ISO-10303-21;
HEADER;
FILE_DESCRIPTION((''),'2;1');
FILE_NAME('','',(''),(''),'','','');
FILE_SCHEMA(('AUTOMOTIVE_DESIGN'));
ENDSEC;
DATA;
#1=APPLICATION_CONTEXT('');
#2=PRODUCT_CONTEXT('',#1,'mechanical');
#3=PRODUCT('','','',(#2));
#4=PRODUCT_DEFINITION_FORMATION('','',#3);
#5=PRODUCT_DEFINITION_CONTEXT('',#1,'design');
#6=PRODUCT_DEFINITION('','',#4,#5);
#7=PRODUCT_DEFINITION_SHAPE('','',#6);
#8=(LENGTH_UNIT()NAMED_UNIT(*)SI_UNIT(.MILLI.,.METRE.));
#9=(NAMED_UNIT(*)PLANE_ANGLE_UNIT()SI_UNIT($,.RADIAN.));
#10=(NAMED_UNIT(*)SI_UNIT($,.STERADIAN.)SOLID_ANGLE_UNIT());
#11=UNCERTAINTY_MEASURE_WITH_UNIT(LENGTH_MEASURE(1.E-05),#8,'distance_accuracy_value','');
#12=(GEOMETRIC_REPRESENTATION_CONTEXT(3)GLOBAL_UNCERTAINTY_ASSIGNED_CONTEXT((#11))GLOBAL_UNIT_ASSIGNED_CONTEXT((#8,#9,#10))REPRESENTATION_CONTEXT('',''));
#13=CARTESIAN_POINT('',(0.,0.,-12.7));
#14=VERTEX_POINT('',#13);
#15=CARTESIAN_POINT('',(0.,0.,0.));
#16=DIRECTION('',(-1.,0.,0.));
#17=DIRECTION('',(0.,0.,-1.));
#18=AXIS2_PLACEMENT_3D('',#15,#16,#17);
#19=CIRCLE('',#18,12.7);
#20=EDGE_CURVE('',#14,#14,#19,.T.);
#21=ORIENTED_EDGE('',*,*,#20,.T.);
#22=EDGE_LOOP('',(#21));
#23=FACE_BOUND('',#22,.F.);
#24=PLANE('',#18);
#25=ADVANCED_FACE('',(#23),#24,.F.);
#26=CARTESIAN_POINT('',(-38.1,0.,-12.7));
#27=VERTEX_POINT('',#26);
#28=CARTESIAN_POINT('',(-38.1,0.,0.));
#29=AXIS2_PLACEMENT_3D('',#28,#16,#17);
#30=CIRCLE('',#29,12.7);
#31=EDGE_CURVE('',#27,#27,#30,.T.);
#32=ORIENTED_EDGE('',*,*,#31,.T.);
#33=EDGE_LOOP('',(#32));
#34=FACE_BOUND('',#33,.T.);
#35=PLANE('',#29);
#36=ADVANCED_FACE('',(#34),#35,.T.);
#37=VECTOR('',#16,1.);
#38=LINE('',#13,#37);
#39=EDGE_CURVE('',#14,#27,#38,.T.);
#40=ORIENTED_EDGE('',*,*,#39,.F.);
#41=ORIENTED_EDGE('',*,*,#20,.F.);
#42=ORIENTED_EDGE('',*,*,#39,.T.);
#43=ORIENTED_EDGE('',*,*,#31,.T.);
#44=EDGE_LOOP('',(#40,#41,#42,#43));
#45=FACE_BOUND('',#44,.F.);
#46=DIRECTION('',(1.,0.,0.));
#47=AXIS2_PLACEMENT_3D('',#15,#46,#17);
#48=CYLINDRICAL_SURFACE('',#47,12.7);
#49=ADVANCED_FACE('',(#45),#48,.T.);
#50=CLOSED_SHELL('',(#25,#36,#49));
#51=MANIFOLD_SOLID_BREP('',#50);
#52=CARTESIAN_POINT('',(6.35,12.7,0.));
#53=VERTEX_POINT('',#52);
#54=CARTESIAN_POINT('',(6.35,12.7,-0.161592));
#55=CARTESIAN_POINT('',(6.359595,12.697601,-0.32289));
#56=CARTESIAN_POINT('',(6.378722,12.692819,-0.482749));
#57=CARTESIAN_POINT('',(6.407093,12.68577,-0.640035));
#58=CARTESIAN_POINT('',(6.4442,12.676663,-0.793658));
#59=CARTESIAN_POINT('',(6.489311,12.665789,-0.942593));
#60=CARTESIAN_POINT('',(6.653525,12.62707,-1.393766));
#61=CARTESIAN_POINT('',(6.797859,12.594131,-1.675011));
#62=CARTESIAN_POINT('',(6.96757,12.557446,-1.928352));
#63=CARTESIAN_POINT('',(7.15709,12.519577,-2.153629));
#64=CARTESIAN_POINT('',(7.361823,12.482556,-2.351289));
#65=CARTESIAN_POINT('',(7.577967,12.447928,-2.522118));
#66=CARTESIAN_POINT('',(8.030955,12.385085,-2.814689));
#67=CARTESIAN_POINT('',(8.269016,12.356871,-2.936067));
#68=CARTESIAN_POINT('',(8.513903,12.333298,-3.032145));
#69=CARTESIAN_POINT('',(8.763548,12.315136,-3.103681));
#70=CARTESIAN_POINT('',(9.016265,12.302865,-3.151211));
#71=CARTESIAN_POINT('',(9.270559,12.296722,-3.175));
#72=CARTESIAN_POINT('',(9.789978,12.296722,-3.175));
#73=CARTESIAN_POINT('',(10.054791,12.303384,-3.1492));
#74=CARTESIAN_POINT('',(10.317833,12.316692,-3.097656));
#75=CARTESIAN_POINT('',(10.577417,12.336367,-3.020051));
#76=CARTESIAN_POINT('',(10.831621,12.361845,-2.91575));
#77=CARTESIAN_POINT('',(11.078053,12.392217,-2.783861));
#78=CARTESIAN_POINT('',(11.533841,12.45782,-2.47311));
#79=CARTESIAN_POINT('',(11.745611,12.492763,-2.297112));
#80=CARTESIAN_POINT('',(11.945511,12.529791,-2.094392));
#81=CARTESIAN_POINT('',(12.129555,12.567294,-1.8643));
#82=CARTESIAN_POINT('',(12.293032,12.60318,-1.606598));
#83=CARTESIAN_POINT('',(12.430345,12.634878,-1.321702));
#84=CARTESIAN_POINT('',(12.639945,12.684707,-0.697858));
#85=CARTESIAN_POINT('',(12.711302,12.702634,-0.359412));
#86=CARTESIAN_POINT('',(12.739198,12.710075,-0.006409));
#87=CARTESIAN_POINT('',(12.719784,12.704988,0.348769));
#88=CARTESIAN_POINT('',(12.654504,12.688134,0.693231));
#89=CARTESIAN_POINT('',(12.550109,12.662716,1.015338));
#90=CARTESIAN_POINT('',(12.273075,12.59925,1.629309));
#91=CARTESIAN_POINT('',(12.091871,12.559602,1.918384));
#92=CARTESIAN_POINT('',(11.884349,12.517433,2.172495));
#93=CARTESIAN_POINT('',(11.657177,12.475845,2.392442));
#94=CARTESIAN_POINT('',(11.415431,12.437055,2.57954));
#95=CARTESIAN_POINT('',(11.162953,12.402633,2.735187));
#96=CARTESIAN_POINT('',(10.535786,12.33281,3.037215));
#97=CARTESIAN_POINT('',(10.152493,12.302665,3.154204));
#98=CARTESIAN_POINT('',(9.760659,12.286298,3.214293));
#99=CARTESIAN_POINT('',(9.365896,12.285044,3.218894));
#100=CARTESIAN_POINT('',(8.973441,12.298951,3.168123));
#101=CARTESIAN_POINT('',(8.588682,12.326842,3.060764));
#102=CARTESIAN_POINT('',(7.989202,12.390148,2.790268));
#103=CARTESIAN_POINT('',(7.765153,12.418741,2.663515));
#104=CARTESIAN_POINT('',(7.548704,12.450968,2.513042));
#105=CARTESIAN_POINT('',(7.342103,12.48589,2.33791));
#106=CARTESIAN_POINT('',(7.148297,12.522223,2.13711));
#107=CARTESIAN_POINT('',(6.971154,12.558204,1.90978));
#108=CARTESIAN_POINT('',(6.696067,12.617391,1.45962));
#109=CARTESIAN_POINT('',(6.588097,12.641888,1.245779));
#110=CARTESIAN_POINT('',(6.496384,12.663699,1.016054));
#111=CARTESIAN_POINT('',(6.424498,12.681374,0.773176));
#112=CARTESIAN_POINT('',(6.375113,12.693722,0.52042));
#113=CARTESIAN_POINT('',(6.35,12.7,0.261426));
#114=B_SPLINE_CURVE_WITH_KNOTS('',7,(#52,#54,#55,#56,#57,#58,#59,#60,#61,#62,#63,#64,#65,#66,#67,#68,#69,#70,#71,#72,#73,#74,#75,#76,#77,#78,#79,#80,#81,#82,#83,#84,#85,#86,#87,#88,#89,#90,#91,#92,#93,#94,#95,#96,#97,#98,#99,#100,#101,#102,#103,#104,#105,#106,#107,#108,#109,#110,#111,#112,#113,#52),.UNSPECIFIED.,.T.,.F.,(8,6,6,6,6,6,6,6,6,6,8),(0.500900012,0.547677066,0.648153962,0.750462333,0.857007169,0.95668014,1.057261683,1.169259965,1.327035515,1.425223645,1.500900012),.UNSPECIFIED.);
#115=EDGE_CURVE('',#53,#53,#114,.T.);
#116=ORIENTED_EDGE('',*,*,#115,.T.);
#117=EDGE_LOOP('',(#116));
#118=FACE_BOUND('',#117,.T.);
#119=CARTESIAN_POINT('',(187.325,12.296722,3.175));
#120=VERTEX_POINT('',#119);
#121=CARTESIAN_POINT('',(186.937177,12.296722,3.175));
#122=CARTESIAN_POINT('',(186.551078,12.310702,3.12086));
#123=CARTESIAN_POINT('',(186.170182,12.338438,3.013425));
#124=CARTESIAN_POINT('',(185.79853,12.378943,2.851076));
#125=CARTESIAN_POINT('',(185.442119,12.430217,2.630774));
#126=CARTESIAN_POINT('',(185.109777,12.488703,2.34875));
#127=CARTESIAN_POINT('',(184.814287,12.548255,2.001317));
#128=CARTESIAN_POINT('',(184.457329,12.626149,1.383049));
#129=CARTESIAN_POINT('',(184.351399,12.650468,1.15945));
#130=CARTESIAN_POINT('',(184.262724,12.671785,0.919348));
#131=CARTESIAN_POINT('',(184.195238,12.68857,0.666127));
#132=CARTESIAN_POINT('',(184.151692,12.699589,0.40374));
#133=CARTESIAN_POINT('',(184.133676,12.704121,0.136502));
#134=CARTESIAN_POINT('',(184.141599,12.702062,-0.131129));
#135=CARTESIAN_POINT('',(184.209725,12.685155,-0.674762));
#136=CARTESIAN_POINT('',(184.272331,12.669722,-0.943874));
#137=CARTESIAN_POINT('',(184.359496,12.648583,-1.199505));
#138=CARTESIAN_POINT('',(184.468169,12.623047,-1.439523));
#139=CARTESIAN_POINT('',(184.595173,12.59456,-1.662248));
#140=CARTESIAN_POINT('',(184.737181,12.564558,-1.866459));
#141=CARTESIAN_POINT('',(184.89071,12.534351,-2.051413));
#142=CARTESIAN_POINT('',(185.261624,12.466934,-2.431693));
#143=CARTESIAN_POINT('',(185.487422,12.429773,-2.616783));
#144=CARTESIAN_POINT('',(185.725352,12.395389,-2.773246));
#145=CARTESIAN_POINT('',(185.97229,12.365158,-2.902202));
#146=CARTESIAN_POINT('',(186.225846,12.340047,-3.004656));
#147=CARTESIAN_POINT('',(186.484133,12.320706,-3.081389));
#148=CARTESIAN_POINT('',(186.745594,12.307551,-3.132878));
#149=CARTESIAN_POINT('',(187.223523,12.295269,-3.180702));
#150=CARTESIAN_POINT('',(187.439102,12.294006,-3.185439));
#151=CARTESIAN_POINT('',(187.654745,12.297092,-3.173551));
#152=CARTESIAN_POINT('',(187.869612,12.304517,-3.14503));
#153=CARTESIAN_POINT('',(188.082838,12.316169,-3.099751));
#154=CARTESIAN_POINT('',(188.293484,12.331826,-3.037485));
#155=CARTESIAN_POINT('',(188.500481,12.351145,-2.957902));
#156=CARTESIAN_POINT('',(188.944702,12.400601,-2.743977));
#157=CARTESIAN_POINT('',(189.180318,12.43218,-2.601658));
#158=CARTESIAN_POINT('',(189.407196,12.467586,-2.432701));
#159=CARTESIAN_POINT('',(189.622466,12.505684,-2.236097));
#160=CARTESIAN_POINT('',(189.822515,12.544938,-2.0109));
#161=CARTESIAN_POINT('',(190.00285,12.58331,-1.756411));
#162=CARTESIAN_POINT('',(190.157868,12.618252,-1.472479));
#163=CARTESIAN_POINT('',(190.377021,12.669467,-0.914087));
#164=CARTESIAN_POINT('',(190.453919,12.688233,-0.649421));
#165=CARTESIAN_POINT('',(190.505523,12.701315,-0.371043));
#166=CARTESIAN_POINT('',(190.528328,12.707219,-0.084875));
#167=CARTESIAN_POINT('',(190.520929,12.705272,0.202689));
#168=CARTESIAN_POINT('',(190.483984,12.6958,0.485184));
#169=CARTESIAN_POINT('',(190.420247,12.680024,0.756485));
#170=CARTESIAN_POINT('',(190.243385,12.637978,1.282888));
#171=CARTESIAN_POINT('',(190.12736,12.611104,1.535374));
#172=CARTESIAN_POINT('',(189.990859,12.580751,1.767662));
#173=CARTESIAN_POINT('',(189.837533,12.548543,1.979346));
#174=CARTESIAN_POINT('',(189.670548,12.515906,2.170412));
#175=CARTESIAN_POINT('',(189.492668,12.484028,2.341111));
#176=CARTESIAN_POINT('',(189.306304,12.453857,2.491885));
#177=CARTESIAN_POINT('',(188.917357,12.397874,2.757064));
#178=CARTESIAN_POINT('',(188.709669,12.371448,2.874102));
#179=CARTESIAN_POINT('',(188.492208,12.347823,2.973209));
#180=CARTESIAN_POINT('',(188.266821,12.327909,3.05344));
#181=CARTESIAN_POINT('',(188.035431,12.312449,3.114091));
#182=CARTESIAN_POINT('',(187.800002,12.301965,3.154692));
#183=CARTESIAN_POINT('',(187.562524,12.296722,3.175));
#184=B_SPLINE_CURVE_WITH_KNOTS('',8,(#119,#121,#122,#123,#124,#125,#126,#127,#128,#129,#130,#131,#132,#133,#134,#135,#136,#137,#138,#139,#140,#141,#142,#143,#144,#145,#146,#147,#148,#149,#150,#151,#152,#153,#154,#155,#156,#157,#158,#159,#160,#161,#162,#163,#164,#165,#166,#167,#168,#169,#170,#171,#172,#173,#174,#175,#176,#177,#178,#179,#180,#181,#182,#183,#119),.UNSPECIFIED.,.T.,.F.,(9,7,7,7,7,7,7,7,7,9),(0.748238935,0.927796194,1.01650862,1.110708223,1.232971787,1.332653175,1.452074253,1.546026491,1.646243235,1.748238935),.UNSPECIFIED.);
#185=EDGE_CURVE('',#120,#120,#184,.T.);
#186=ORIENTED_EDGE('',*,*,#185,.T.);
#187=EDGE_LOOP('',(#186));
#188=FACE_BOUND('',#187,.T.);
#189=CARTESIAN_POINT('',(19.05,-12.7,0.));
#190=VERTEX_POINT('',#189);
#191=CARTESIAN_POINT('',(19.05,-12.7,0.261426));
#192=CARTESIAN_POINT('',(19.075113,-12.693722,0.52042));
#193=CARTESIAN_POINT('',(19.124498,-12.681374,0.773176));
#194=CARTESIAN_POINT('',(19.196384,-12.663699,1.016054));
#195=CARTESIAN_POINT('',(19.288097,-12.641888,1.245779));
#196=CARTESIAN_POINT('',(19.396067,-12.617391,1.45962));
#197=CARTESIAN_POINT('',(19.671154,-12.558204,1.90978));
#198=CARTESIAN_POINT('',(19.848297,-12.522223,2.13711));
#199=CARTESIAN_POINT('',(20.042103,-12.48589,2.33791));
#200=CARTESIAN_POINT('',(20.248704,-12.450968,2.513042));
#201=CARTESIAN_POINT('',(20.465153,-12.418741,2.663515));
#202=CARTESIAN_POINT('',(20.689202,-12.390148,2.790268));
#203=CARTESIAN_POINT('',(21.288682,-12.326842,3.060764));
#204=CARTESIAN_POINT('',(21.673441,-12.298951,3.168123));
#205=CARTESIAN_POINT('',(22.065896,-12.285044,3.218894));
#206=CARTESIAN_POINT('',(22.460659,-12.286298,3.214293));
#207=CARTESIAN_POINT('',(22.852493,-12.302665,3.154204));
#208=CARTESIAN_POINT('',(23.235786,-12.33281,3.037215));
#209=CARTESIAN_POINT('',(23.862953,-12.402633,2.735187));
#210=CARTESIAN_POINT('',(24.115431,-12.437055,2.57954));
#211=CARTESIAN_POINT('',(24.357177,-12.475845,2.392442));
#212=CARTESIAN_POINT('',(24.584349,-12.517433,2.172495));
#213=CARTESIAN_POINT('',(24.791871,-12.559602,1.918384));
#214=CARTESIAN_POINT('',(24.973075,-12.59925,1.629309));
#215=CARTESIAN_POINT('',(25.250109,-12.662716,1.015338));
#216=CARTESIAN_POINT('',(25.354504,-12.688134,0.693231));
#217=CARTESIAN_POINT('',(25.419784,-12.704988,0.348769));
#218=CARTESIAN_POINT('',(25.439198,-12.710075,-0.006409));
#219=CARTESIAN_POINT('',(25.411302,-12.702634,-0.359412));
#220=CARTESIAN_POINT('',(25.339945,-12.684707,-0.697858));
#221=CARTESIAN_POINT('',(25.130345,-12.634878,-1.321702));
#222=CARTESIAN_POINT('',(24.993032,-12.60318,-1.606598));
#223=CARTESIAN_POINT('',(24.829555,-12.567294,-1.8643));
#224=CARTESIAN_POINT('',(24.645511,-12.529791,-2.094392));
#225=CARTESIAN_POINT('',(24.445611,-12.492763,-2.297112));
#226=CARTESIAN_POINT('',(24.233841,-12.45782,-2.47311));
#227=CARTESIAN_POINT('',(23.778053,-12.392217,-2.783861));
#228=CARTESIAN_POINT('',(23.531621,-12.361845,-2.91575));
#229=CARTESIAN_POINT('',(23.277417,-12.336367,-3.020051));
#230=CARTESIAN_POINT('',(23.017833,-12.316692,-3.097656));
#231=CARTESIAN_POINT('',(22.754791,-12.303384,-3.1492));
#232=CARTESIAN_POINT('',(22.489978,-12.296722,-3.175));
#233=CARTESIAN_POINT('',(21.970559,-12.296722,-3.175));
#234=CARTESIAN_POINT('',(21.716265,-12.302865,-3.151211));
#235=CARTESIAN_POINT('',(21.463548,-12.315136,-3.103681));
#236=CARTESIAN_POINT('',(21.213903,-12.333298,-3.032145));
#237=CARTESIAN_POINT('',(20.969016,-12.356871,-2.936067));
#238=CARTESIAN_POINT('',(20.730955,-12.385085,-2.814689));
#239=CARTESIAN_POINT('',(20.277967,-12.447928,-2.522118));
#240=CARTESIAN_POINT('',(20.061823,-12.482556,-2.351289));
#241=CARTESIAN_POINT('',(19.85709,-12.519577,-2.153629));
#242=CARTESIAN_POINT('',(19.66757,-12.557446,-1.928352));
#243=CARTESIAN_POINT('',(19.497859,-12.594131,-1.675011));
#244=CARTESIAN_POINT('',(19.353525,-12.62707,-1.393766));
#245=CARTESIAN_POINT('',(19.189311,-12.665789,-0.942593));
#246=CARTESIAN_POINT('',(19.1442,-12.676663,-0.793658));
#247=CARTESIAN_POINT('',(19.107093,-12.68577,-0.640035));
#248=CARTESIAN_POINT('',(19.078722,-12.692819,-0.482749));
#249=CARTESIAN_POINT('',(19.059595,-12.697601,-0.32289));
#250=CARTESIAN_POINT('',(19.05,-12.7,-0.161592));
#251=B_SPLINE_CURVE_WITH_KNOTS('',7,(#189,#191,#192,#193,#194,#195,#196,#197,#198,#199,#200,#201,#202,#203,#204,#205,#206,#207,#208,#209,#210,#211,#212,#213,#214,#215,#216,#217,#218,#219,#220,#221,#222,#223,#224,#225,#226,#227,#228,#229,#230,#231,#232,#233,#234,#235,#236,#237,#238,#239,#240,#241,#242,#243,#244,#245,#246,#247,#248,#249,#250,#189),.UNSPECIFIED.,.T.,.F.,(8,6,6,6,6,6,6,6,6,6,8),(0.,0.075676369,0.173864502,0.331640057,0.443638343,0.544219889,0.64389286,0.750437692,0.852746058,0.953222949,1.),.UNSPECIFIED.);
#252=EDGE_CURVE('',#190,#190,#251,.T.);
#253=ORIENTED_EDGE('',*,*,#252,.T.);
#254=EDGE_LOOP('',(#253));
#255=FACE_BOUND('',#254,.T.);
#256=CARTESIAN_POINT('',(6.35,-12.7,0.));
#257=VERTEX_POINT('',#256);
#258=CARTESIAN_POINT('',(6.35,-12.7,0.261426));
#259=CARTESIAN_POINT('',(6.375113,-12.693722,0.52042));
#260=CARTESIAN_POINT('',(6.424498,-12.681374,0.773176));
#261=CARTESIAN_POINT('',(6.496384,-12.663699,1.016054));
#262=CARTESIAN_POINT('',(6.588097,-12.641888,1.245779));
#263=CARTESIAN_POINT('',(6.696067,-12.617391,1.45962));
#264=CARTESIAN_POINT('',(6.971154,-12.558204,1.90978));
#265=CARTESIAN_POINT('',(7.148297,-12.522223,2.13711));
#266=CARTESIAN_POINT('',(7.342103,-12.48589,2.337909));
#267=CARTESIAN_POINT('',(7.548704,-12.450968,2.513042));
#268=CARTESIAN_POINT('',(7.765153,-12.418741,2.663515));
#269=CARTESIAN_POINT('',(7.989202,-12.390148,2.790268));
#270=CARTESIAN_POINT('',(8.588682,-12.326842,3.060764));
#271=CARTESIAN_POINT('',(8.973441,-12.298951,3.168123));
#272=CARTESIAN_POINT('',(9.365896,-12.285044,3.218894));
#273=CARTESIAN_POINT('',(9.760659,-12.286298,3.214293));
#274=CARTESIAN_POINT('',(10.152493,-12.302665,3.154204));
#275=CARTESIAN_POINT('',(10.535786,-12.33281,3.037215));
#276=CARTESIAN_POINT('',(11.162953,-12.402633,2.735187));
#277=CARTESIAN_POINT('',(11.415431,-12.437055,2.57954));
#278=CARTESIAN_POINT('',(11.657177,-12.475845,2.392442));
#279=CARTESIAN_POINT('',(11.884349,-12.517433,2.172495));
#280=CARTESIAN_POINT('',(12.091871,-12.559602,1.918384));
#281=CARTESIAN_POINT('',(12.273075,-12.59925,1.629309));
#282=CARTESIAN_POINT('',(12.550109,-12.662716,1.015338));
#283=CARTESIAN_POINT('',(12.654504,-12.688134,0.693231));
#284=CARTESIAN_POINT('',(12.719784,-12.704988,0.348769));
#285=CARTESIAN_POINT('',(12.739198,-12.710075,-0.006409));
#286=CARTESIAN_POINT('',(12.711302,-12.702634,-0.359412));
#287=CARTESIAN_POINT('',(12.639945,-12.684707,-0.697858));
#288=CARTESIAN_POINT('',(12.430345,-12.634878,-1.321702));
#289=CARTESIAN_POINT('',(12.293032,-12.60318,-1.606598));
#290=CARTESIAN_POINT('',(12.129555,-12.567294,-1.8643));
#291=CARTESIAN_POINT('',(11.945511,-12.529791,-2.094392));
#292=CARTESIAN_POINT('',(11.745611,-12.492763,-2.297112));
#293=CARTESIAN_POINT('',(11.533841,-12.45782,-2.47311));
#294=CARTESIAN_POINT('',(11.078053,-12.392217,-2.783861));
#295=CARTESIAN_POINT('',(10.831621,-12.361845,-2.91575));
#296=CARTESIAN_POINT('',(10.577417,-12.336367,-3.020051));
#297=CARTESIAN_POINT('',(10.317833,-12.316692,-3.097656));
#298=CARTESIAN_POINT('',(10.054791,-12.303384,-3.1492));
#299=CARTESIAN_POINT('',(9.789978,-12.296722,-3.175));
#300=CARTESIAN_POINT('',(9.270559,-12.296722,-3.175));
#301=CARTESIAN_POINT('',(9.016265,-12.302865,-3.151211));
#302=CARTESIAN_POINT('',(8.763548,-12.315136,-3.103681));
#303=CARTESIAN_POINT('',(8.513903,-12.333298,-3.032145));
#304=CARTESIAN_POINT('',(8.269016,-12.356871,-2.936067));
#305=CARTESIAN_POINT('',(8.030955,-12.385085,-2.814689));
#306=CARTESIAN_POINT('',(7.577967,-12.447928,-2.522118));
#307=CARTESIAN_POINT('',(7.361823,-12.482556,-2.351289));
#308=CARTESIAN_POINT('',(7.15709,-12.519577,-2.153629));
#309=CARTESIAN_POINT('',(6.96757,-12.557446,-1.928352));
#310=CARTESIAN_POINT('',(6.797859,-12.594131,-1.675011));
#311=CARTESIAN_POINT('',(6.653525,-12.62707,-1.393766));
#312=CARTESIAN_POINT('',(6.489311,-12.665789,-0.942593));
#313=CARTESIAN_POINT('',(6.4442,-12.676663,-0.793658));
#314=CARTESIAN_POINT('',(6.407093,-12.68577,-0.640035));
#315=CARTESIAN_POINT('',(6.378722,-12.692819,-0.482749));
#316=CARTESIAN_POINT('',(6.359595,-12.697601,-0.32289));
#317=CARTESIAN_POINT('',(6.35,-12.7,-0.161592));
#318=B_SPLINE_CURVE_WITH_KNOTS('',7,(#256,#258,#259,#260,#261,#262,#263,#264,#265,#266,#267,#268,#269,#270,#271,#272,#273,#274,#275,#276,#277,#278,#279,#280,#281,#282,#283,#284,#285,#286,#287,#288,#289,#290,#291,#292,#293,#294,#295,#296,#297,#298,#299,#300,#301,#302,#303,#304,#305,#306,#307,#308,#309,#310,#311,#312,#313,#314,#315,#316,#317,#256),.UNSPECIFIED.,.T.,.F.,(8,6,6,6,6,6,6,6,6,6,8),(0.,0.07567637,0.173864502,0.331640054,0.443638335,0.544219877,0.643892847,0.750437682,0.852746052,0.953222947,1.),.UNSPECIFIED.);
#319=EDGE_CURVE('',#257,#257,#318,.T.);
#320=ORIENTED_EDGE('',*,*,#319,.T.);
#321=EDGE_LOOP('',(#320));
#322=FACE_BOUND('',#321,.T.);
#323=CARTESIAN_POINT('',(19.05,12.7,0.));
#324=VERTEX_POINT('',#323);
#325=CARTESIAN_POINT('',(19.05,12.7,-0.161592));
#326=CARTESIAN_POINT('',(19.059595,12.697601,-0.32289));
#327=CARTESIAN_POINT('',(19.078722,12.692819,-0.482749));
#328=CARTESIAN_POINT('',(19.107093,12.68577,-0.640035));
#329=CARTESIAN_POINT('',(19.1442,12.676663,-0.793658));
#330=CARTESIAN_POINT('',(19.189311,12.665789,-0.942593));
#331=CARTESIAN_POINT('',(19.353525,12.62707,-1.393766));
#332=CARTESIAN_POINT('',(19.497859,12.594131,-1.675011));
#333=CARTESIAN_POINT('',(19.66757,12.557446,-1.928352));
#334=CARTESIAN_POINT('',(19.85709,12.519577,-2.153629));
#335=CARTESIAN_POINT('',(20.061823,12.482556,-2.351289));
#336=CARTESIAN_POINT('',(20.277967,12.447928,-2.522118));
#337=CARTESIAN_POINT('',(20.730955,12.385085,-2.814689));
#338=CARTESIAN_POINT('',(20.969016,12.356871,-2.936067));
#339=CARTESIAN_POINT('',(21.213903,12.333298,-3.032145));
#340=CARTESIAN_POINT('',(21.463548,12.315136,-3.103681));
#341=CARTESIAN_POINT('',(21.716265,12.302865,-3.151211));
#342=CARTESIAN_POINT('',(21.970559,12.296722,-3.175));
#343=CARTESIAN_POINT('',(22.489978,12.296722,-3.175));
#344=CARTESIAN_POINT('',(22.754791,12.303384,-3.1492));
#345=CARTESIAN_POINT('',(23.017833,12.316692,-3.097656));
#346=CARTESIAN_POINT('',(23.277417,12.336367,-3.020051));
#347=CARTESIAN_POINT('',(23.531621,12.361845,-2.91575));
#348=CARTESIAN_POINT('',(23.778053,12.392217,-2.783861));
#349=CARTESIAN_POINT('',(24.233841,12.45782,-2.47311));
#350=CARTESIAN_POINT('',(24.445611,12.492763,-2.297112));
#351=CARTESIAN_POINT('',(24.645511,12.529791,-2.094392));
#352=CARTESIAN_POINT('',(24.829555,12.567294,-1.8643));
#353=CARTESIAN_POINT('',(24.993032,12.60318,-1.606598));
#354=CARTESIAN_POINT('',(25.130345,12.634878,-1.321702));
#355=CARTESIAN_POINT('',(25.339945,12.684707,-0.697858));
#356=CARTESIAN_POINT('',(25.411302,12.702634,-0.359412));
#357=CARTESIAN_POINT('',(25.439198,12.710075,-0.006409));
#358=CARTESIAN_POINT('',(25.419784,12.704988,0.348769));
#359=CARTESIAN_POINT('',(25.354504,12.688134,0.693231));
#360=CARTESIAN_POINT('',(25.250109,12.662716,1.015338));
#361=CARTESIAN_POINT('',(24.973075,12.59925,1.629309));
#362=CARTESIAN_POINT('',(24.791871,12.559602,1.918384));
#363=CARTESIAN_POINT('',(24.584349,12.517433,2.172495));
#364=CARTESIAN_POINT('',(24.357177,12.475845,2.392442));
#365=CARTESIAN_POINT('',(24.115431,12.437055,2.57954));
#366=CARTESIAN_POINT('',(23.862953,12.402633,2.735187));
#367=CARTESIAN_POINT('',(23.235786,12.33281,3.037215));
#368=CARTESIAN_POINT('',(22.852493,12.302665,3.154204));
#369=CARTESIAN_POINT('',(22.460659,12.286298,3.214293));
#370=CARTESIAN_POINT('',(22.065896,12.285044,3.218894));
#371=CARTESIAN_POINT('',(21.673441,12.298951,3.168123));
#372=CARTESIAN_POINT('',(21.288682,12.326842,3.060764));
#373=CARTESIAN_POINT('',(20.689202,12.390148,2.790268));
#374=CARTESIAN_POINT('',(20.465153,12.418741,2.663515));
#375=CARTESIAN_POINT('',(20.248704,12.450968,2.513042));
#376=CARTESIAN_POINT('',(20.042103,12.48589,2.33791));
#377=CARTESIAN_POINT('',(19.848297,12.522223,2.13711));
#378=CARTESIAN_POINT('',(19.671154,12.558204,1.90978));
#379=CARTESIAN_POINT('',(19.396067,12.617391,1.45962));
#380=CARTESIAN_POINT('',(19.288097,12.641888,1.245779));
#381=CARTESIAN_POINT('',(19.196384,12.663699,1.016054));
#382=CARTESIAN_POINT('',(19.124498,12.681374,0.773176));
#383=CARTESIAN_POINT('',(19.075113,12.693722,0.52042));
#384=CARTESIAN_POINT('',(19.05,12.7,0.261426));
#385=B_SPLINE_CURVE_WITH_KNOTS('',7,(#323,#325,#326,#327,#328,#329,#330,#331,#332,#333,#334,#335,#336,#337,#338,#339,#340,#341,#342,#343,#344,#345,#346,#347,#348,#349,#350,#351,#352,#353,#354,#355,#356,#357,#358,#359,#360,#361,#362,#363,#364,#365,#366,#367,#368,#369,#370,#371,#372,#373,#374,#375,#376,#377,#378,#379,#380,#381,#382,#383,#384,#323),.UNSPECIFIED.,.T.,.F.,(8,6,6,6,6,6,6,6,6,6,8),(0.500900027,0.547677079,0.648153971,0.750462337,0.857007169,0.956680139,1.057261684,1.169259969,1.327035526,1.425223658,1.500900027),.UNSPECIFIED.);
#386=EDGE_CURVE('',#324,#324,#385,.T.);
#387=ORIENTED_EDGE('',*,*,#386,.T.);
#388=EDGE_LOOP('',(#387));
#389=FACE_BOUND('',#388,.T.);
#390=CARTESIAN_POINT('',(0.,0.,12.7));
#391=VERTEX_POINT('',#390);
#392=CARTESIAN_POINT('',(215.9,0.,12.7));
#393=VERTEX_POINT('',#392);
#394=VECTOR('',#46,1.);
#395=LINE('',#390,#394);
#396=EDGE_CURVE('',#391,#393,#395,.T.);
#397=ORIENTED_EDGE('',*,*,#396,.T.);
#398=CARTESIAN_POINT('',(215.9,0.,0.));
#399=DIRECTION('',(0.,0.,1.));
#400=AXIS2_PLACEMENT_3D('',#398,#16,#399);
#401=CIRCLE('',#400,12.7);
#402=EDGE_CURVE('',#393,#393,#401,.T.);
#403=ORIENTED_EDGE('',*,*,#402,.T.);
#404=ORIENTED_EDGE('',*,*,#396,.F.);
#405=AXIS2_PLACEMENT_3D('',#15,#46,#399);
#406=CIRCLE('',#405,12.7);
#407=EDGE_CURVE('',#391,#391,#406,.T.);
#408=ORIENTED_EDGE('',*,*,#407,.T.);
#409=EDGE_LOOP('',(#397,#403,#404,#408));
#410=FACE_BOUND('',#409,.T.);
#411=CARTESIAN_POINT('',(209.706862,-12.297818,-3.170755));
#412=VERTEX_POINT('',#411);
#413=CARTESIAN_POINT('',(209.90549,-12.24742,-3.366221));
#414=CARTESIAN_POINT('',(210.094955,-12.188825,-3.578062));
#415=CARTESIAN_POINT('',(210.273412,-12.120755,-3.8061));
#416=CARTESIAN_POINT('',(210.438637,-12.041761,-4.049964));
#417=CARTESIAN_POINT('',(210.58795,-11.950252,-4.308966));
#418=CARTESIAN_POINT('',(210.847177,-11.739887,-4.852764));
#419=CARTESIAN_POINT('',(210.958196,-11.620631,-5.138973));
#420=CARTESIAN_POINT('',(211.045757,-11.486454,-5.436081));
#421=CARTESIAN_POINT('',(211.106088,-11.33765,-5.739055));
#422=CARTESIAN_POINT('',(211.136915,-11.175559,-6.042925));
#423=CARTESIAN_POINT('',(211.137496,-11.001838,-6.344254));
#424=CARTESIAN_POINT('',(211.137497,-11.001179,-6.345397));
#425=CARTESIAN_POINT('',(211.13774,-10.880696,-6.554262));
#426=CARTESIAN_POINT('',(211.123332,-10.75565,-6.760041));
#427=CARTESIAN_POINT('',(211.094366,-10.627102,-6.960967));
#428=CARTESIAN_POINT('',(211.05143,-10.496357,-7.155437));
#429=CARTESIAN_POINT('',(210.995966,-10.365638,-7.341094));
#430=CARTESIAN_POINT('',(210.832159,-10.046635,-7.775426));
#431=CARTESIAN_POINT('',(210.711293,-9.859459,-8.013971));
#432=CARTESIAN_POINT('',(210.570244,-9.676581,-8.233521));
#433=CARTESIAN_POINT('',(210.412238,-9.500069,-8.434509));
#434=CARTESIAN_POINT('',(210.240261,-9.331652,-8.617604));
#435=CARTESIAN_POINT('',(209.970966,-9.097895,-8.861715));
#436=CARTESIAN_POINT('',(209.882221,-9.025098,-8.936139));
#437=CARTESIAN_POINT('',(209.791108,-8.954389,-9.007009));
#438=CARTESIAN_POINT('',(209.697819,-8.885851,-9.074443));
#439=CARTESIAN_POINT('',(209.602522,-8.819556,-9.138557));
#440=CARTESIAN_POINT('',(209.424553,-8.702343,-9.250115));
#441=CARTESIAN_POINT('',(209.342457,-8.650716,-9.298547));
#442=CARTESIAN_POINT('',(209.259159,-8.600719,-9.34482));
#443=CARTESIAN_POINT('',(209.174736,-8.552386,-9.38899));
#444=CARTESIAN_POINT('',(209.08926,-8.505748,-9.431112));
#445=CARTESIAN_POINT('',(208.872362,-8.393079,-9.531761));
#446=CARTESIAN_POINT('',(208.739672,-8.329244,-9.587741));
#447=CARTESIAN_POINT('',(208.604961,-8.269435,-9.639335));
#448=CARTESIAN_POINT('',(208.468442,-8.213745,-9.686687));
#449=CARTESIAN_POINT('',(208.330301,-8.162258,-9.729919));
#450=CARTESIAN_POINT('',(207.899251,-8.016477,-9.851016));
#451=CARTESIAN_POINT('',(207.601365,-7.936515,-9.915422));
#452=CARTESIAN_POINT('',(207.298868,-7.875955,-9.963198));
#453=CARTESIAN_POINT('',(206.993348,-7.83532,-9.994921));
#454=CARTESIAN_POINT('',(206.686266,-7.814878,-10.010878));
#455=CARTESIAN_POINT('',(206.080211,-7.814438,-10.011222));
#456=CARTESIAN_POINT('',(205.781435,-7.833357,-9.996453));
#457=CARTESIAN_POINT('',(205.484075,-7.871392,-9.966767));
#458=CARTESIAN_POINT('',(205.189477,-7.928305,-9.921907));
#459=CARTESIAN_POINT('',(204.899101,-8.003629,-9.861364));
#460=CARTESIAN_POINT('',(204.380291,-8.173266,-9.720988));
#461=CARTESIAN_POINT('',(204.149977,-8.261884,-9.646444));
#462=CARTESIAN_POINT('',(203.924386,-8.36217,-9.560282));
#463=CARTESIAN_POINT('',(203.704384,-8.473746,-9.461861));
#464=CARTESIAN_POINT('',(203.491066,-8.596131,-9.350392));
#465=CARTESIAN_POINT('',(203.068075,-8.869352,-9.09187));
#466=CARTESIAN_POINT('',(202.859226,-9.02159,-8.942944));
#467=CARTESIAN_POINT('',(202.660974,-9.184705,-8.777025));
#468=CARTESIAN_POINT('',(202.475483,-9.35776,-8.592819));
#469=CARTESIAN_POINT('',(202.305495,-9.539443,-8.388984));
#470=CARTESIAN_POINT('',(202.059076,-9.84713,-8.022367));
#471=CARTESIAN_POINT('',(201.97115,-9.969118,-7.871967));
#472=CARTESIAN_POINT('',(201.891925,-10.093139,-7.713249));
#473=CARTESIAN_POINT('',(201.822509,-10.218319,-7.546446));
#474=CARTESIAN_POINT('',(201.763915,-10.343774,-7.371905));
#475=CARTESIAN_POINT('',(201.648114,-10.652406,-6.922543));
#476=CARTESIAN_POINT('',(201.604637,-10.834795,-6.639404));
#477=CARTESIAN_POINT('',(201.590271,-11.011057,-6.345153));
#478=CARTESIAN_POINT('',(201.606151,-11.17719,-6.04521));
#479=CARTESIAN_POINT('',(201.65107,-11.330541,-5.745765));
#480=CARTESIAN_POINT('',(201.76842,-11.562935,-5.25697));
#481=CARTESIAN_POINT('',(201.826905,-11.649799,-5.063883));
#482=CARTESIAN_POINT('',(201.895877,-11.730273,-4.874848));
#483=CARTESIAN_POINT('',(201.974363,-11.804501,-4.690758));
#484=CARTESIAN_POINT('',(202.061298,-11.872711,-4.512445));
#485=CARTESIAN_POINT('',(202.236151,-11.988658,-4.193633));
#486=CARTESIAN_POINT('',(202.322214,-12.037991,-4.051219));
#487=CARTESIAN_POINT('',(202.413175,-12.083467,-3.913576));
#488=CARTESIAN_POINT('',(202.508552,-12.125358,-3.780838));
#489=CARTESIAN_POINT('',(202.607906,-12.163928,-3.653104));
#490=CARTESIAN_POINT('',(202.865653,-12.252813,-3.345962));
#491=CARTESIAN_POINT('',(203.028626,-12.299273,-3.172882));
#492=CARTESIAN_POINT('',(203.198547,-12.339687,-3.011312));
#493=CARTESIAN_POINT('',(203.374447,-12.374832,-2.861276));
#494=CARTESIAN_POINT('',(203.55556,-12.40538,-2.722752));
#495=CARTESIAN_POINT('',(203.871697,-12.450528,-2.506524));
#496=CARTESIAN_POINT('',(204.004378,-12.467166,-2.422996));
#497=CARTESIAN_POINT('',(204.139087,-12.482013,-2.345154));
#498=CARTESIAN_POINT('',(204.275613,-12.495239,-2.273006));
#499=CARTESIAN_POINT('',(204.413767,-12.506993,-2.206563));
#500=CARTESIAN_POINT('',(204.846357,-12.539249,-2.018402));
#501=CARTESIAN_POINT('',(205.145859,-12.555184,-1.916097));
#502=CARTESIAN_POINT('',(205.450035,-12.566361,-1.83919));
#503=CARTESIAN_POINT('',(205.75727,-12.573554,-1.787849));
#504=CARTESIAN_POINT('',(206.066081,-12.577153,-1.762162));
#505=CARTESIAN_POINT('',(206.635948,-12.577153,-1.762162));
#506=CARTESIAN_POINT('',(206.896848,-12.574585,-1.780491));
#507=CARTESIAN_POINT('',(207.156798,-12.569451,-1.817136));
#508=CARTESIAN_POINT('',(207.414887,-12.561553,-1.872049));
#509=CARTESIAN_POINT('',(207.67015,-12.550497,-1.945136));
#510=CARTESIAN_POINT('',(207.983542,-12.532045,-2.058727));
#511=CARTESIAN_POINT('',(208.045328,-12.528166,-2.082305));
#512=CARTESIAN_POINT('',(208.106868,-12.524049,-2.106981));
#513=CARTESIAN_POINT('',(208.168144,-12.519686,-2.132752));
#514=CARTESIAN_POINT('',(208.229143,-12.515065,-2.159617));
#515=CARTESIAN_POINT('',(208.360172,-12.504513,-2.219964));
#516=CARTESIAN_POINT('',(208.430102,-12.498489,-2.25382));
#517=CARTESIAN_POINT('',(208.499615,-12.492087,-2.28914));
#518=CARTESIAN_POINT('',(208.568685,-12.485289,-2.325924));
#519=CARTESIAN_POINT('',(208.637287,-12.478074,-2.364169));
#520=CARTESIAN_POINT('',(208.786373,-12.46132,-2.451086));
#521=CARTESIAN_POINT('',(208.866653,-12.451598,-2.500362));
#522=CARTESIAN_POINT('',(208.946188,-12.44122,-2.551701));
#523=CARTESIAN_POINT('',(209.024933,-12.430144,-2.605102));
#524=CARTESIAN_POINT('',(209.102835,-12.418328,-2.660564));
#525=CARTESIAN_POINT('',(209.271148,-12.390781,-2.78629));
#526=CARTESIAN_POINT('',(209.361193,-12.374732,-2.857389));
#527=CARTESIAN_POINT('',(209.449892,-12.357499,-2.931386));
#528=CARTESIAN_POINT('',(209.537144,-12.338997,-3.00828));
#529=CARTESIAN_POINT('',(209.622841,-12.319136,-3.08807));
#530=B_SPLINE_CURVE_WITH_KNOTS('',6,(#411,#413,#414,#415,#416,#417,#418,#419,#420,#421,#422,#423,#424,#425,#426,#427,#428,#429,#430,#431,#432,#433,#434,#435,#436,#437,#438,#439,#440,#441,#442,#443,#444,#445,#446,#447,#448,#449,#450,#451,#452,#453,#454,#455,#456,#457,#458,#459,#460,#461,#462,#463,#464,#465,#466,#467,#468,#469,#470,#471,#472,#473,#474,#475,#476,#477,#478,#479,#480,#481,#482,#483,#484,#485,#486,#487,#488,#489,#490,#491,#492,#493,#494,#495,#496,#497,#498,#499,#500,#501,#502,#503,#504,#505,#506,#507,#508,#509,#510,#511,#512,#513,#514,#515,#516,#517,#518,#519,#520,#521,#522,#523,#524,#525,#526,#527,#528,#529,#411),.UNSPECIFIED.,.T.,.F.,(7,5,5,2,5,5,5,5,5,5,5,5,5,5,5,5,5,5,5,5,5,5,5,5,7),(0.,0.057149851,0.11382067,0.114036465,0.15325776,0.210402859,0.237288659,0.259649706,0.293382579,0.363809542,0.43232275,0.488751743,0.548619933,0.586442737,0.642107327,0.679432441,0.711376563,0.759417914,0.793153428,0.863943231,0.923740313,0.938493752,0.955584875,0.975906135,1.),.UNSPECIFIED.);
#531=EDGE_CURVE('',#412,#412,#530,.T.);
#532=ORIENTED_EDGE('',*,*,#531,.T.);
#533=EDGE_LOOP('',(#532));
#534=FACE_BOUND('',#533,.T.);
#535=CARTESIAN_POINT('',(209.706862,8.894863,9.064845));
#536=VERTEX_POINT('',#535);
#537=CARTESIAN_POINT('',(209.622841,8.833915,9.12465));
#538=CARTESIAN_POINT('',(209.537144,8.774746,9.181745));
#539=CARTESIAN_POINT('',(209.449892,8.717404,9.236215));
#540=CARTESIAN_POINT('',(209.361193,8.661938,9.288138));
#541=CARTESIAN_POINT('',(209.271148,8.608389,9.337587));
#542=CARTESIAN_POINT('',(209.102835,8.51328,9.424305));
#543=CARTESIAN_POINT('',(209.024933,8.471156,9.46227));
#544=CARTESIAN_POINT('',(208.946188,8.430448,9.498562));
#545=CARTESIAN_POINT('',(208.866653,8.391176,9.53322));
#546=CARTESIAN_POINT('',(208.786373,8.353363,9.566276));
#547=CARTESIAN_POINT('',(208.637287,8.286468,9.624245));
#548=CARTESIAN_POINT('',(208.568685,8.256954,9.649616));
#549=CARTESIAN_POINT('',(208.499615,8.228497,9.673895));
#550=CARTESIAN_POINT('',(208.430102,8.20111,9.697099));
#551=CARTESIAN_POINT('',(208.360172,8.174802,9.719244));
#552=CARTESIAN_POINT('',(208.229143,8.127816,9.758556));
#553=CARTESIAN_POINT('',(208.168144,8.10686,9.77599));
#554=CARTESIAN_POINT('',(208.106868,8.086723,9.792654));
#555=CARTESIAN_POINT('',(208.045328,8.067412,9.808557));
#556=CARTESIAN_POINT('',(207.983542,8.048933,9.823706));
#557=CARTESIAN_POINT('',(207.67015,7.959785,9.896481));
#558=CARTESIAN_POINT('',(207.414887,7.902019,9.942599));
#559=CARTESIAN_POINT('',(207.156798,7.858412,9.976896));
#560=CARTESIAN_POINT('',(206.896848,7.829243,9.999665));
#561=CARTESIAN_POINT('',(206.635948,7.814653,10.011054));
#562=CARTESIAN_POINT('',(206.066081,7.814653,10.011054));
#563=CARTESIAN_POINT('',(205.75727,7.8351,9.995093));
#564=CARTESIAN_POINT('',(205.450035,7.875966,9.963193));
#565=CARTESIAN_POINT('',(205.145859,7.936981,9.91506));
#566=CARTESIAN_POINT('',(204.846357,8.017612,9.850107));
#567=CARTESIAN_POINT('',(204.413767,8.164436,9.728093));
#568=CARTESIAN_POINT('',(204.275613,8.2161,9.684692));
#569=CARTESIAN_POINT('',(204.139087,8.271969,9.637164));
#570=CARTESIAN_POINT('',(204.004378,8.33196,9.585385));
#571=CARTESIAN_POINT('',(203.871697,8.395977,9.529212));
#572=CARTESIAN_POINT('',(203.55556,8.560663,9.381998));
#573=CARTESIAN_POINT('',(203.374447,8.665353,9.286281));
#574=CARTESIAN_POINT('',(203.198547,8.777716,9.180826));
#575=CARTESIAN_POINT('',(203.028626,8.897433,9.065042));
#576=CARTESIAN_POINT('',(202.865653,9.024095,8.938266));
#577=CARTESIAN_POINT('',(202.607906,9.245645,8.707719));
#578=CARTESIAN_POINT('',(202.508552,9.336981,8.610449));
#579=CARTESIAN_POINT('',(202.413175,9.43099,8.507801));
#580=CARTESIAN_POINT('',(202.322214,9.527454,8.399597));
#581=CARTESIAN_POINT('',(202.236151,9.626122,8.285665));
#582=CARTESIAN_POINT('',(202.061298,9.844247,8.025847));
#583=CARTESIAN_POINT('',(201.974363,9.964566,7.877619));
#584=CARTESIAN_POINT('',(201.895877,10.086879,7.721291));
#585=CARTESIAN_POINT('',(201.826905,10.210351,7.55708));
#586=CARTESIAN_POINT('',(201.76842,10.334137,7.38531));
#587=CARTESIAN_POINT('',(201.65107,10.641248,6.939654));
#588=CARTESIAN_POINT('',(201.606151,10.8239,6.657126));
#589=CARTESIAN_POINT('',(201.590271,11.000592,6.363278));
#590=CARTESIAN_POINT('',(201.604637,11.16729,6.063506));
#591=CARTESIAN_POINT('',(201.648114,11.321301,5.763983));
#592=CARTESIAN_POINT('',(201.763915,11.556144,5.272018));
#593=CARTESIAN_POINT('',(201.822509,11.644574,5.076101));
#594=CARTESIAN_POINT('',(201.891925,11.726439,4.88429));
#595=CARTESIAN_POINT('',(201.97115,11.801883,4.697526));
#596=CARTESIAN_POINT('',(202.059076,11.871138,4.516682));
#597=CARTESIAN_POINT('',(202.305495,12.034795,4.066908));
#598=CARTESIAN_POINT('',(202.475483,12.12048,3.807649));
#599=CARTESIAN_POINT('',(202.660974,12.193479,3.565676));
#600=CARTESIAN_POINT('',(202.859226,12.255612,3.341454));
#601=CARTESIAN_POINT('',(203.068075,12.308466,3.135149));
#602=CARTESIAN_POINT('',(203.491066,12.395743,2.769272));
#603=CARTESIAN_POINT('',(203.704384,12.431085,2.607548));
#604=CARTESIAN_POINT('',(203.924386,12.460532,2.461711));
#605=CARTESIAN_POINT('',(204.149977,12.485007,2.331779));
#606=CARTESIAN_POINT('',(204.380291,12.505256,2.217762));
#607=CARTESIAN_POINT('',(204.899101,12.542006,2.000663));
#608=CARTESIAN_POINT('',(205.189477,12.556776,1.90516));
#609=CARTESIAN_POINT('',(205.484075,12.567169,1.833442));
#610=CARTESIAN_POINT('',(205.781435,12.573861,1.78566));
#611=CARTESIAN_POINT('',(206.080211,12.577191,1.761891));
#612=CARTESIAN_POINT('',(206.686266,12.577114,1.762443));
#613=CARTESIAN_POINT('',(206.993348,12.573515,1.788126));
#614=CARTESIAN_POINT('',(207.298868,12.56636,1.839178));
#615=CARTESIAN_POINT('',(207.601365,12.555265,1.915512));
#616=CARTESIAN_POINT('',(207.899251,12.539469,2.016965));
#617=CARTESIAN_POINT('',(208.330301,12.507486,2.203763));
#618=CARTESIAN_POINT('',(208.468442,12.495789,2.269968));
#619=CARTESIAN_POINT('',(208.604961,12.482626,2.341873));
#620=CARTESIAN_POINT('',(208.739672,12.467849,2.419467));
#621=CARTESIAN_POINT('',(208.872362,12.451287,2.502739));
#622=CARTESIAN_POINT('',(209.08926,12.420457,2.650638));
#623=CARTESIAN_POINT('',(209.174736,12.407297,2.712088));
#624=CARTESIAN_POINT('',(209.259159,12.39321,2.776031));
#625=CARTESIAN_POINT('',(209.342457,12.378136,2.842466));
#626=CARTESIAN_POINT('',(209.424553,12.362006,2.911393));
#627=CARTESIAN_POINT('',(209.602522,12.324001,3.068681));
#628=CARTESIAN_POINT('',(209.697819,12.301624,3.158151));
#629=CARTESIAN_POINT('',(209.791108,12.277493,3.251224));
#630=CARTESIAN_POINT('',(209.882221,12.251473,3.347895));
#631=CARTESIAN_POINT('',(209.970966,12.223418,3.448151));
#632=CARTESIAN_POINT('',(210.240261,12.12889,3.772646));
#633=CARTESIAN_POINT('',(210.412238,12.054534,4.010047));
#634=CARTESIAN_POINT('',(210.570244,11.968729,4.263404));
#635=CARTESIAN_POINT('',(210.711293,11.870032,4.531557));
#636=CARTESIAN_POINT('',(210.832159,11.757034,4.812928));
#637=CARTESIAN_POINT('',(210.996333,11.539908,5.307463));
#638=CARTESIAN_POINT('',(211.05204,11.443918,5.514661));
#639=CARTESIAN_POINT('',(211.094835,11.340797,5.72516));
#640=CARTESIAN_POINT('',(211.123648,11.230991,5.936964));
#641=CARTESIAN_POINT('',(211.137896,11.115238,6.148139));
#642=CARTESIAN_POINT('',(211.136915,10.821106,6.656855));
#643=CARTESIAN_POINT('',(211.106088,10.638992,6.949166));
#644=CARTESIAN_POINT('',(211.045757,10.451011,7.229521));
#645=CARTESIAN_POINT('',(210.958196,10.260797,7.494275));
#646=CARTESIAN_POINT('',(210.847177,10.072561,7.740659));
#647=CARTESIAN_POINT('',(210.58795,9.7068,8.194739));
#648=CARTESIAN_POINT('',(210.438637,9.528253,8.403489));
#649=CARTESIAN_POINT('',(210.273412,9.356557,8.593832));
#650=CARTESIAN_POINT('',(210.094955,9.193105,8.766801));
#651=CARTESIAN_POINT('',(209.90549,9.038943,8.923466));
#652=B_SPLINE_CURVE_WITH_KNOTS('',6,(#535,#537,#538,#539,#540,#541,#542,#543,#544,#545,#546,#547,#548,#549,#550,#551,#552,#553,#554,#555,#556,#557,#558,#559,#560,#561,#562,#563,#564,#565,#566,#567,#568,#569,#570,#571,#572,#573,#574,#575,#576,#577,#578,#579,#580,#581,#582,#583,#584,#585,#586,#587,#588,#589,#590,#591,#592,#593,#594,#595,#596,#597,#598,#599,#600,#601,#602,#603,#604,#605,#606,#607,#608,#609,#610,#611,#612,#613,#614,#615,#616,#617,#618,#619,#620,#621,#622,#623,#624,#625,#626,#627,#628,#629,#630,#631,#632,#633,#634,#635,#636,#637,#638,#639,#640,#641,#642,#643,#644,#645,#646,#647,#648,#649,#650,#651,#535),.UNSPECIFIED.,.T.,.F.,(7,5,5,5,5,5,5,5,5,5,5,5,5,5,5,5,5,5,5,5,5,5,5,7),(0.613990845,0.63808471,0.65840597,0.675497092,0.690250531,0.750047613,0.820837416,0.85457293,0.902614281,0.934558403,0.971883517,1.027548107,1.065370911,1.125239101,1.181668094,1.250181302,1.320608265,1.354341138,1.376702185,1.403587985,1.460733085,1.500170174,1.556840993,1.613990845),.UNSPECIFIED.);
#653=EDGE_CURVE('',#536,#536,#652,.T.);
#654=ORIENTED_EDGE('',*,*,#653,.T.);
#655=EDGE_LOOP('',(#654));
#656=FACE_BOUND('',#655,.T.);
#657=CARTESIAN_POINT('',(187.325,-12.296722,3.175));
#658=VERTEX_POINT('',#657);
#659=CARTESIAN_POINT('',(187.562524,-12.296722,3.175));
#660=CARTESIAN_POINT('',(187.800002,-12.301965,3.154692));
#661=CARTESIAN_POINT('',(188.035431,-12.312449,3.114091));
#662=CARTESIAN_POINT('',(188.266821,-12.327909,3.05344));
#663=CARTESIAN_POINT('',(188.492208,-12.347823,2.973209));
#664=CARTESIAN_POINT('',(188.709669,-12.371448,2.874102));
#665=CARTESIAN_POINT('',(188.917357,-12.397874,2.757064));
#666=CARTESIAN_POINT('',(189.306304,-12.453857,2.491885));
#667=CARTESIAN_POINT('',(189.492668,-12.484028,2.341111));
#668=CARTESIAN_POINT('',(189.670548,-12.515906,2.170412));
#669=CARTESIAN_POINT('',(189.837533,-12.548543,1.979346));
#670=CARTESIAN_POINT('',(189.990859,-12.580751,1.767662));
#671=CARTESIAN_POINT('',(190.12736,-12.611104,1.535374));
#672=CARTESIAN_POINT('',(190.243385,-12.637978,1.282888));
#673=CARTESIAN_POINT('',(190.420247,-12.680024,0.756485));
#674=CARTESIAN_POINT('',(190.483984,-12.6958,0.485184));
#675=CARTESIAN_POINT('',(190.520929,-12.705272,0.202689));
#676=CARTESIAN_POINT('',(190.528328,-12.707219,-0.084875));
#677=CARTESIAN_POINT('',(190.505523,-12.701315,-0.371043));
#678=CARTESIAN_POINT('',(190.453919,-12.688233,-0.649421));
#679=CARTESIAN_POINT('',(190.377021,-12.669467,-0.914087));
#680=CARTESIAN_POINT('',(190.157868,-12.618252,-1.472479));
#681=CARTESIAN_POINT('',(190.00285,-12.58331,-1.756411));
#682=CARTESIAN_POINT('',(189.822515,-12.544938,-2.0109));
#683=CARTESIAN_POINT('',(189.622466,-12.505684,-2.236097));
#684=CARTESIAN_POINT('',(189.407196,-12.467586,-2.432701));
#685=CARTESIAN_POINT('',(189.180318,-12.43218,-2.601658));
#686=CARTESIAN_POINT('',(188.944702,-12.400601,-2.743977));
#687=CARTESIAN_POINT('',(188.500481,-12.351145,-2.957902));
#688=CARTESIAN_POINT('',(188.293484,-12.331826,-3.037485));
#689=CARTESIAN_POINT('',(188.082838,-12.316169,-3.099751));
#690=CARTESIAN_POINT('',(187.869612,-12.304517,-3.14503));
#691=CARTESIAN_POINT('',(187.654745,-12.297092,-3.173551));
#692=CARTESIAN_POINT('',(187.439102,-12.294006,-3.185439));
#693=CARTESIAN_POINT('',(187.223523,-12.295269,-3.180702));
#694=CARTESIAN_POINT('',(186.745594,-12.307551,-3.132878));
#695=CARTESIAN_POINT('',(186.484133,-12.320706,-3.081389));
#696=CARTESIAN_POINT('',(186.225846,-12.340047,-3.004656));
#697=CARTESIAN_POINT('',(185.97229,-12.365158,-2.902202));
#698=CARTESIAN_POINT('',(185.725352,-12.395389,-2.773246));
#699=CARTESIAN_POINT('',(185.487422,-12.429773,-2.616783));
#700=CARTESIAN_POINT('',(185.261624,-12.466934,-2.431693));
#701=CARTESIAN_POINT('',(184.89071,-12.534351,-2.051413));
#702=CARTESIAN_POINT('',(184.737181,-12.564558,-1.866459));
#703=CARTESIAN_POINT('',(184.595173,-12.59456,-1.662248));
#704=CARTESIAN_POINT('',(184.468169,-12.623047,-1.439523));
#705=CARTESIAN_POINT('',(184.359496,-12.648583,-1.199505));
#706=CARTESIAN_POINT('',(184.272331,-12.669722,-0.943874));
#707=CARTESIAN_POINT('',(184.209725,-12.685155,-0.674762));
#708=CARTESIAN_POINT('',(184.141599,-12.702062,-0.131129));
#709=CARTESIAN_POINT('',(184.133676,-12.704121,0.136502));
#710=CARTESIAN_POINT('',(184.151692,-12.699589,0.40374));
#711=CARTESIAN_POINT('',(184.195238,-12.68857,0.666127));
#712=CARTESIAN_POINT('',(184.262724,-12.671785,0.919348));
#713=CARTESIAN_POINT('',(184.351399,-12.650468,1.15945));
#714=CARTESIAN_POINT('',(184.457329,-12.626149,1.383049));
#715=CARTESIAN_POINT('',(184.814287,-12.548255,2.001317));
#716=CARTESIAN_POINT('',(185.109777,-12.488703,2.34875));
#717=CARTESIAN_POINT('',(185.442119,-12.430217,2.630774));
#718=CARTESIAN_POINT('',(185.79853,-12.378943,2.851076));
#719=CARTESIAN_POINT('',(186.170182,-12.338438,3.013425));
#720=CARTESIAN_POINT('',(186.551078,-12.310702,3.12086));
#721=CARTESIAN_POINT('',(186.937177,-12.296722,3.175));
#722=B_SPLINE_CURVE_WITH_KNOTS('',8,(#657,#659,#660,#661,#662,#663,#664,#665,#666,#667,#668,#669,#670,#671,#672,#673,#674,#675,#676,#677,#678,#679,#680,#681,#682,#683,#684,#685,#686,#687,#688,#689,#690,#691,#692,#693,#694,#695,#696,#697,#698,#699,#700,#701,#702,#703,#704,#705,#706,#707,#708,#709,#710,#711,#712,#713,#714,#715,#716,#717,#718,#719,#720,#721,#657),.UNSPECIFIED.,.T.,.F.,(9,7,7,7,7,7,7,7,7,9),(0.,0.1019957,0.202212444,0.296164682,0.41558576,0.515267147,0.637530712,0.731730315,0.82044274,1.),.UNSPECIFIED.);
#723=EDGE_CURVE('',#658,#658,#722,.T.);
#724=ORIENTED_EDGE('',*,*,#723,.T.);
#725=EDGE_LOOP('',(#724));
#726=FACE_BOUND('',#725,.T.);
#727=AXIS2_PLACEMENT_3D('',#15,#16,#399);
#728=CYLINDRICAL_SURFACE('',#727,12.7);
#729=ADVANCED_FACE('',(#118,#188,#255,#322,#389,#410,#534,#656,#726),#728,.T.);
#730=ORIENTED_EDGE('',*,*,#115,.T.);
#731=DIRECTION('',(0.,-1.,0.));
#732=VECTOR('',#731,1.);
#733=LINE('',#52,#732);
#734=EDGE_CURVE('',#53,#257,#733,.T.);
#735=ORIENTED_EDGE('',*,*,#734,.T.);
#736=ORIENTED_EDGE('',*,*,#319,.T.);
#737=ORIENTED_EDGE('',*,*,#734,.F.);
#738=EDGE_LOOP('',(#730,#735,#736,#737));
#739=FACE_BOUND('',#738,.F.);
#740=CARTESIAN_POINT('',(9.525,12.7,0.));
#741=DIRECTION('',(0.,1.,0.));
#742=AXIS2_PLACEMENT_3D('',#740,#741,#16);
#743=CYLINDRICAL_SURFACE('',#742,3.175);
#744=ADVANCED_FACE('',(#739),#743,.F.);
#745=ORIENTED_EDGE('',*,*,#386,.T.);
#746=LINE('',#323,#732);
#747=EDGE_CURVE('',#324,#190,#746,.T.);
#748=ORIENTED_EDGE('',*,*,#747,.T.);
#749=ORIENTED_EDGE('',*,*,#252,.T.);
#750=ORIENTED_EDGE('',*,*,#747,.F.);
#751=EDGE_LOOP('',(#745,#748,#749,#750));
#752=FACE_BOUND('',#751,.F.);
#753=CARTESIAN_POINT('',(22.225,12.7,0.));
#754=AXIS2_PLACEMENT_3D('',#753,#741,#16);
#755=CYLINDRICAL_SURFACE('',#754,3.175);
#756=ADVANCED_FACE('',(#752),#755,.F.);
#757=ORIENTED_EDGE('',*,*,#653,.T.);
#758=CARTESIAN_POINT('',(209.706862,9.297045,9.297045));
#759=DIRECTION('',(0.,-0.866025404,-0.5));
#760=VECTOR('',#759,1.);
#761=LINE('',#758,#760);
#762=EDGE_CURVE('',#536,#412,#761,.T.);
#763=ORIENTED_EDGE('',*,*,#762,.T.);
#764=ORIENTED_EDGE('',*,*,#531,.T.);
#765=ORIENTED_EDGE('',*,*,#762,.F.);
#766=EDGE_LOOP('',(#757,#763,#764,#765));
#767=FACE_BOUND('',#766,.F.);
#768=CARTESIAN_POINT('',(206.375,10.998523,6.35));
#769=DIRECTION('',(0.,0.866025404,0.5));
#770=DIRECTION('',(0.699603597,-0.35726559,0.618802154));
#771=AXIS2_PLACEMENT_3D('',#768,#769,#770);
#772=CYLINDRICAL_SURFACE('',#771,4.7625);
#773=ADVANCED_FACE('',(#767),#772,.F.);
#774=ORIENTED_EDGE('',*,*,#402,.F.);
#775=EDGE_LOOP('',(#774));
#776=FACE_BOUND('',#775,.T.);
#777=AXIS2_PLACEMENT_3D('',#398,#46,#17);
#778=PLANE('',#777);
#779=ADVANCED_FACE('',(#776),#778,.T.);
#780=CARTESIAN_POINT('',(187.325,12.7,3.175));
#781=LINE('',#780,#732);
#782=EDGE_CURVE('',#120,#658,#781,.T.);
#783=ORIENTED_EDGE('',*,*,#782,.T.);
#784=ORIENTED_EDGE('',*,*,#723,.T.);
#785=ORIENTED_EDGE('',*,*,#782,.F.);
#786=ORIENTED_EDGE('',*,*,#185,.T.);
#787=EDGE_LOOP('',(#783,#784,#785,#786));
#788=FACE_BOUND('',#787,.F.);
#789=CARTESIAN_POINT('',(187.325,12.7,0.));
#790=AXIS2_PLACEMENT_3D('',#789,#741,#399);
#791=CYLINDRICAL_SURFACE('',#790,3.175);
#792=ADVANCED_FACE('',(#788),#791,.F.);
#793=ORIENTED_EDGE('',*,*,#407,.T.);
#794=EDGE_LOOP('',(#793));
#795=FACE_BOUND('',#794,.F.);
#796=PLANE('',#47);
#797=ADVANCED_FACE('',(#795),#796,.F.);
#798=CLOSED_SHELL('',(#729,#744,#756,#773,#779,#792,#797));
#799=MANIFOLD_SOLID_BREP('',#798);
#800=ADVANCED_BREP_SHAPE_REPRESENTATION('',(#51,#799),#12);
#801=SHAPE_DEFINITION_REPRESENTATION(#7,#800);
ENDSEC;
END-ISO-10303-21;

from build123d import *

# Parameters (mm, degrees)
BOSS_EXTRUDE1_DEPTH = 215.9
SKETCH2_R           = 3.175
CUT_EXTRUDE1_DEPTH  = 215.9
SKETCH3_R           = 4.7625
CUT_EXTRUDE2_DEPTH  = 215.9
SKETCH4_R           = 25.43506898
SKETCH4_R_2         = 12.7
CUT_EXTRUDE6_DEPTH  = 222.25
SKETCH5_R           = 12.7
BOSS_EXTRUDE2_DEPTH = 38.1
SKETCH6_R           = 12.7
CUT_EXTRUDE7_DEPTH  = 38.1
SKETCH7_R           = 12.7
BOSS_EXTRUDE3_DEPTH = 38.1


with BuildPart() as part:
    # Sketch1 → Boss-Extrude1 (new body)
    with BuildSketch(Plane(origin=(0, 0, 0), x_dir=(0, 0, -1), z_dir=(1, 0, 0))):
        Polygon((12.7, 3.402954744), (9.297045256, 9.297045256), (3.402954744, 12.7), (-3.402954744, 12.7), (-9.297045256, 9.297045256), (-12.7, 3.402954744), (-12.7, -3.402954744), (-9.297045256, -9.297045256), (-3.402954744, -12.7), (3.402954744, -12.7), (9.297045256, -9.297045256), (12.7, -3.402954744), align=None)
    extrude(amount=BOSS_EXTRUDE1_DEPTH)

    # Sketch2 → Cut-Extrude1 (cut)
    with BuildSketch(Plane(origin=(0, 12.7, 0), x_dir=(1, 0, 0), z_dir=(0, 1, 0))):
        with BuildLine():
            ThreePointArc((25.4, 0), (22.225, 3.175), (19.05, 0))
            Line((19.05, 0), (22.225, 0))
            Line((22.225, 0), (25.4, 0))
        make_face()
        with BuildLine():
            Line((22.225, 0), (19.05, 0))
            ThreePointArc((19.05, 0), (22.225, -3.175), (25.4, 0))
            Line((25.4, 0), (22.225, 0))
        make_face()
        with BuildLine():
            ThreePointArc((12.7, 0), (9.525, 3.175), (6.35, 0))
            Line((6.35, 0), (9.525, 0))
            Line((9.525, 0), (12.7, 0))
        make_face()
        with BuildLine():
            Line((9.525, 0), (6.35, 0))
            ThreePointArc((6.35, 0), (9.525, -3.175), (12.7, 0))
            Line((12.7, 0), (9.525, 0))
        make_face()
        with Locations(Location((187.325, 0, 0), (0, 0, 270))):
            Circle(SKETCH2_R)
    extrude(amount=-CUT_EXTRUDE1_DEPTH, mode=Mode.SUBTRACT)

    # Sketch3 → Cut-Extrude2 (cut)
    with BuildSketch(Plane(origin=(0, 10.998522628, 6.35), x_dir=(1, 0, 0), z_dir=(0, 0.8660254037844386, 0.5000000000000001))):
        with Locations(Location((206.375, 0, 0), (0, 0, 314.395209186))):
            Circle(SKETCH3_R)
    extrude(amount=-CUT_EXTRUDE2_DEPTH, mode=Mode.SUBTRACT)

    # Sketch4 → Cut-Extrude6 (cut)
    with BuildSketch(Plane.ZY):
        Circle(SKETCH4_R)
        Circle(SKETCH4_R_2, mode=Mode.SUBTRACT)
    extrude(amount=-CUT_EXTRUDE6_DEPTH, mode=Mode.SUBTRACT)


with BuildPart() as body_2:
    # Sketch5 → Boss-Extrude2 (new body)
    with BuildSketch(Plane.ZY):
        Circle(SKETCH5_R)
    extrude(amount=BOSS_EXTRUDE2_DEPTH)

    # Sketch6 → Cut-Extrude7 (cut)
    with BuildSketch(Plane.ZY.offset(38.1)):
        Circle(SKETCH6_R)
    extrude(amount=-CUT_EXTRUDE7_DEPTH, mode=Mode.SUBTRACT)


with BuildPart() as body_2_2:
    # Sketch7 → Boss-Extrude3 (new body)
    with BuildSketch(Plane.ZY):
        with Locations(Location((0, 0, 0), (0, 0, 180))):
            Circle(SKETCH7_R)
    extrude(amount=BOSS_EXTRUDE3_DEPTH)


solid = Compound([part.part, body_2_2.part])
